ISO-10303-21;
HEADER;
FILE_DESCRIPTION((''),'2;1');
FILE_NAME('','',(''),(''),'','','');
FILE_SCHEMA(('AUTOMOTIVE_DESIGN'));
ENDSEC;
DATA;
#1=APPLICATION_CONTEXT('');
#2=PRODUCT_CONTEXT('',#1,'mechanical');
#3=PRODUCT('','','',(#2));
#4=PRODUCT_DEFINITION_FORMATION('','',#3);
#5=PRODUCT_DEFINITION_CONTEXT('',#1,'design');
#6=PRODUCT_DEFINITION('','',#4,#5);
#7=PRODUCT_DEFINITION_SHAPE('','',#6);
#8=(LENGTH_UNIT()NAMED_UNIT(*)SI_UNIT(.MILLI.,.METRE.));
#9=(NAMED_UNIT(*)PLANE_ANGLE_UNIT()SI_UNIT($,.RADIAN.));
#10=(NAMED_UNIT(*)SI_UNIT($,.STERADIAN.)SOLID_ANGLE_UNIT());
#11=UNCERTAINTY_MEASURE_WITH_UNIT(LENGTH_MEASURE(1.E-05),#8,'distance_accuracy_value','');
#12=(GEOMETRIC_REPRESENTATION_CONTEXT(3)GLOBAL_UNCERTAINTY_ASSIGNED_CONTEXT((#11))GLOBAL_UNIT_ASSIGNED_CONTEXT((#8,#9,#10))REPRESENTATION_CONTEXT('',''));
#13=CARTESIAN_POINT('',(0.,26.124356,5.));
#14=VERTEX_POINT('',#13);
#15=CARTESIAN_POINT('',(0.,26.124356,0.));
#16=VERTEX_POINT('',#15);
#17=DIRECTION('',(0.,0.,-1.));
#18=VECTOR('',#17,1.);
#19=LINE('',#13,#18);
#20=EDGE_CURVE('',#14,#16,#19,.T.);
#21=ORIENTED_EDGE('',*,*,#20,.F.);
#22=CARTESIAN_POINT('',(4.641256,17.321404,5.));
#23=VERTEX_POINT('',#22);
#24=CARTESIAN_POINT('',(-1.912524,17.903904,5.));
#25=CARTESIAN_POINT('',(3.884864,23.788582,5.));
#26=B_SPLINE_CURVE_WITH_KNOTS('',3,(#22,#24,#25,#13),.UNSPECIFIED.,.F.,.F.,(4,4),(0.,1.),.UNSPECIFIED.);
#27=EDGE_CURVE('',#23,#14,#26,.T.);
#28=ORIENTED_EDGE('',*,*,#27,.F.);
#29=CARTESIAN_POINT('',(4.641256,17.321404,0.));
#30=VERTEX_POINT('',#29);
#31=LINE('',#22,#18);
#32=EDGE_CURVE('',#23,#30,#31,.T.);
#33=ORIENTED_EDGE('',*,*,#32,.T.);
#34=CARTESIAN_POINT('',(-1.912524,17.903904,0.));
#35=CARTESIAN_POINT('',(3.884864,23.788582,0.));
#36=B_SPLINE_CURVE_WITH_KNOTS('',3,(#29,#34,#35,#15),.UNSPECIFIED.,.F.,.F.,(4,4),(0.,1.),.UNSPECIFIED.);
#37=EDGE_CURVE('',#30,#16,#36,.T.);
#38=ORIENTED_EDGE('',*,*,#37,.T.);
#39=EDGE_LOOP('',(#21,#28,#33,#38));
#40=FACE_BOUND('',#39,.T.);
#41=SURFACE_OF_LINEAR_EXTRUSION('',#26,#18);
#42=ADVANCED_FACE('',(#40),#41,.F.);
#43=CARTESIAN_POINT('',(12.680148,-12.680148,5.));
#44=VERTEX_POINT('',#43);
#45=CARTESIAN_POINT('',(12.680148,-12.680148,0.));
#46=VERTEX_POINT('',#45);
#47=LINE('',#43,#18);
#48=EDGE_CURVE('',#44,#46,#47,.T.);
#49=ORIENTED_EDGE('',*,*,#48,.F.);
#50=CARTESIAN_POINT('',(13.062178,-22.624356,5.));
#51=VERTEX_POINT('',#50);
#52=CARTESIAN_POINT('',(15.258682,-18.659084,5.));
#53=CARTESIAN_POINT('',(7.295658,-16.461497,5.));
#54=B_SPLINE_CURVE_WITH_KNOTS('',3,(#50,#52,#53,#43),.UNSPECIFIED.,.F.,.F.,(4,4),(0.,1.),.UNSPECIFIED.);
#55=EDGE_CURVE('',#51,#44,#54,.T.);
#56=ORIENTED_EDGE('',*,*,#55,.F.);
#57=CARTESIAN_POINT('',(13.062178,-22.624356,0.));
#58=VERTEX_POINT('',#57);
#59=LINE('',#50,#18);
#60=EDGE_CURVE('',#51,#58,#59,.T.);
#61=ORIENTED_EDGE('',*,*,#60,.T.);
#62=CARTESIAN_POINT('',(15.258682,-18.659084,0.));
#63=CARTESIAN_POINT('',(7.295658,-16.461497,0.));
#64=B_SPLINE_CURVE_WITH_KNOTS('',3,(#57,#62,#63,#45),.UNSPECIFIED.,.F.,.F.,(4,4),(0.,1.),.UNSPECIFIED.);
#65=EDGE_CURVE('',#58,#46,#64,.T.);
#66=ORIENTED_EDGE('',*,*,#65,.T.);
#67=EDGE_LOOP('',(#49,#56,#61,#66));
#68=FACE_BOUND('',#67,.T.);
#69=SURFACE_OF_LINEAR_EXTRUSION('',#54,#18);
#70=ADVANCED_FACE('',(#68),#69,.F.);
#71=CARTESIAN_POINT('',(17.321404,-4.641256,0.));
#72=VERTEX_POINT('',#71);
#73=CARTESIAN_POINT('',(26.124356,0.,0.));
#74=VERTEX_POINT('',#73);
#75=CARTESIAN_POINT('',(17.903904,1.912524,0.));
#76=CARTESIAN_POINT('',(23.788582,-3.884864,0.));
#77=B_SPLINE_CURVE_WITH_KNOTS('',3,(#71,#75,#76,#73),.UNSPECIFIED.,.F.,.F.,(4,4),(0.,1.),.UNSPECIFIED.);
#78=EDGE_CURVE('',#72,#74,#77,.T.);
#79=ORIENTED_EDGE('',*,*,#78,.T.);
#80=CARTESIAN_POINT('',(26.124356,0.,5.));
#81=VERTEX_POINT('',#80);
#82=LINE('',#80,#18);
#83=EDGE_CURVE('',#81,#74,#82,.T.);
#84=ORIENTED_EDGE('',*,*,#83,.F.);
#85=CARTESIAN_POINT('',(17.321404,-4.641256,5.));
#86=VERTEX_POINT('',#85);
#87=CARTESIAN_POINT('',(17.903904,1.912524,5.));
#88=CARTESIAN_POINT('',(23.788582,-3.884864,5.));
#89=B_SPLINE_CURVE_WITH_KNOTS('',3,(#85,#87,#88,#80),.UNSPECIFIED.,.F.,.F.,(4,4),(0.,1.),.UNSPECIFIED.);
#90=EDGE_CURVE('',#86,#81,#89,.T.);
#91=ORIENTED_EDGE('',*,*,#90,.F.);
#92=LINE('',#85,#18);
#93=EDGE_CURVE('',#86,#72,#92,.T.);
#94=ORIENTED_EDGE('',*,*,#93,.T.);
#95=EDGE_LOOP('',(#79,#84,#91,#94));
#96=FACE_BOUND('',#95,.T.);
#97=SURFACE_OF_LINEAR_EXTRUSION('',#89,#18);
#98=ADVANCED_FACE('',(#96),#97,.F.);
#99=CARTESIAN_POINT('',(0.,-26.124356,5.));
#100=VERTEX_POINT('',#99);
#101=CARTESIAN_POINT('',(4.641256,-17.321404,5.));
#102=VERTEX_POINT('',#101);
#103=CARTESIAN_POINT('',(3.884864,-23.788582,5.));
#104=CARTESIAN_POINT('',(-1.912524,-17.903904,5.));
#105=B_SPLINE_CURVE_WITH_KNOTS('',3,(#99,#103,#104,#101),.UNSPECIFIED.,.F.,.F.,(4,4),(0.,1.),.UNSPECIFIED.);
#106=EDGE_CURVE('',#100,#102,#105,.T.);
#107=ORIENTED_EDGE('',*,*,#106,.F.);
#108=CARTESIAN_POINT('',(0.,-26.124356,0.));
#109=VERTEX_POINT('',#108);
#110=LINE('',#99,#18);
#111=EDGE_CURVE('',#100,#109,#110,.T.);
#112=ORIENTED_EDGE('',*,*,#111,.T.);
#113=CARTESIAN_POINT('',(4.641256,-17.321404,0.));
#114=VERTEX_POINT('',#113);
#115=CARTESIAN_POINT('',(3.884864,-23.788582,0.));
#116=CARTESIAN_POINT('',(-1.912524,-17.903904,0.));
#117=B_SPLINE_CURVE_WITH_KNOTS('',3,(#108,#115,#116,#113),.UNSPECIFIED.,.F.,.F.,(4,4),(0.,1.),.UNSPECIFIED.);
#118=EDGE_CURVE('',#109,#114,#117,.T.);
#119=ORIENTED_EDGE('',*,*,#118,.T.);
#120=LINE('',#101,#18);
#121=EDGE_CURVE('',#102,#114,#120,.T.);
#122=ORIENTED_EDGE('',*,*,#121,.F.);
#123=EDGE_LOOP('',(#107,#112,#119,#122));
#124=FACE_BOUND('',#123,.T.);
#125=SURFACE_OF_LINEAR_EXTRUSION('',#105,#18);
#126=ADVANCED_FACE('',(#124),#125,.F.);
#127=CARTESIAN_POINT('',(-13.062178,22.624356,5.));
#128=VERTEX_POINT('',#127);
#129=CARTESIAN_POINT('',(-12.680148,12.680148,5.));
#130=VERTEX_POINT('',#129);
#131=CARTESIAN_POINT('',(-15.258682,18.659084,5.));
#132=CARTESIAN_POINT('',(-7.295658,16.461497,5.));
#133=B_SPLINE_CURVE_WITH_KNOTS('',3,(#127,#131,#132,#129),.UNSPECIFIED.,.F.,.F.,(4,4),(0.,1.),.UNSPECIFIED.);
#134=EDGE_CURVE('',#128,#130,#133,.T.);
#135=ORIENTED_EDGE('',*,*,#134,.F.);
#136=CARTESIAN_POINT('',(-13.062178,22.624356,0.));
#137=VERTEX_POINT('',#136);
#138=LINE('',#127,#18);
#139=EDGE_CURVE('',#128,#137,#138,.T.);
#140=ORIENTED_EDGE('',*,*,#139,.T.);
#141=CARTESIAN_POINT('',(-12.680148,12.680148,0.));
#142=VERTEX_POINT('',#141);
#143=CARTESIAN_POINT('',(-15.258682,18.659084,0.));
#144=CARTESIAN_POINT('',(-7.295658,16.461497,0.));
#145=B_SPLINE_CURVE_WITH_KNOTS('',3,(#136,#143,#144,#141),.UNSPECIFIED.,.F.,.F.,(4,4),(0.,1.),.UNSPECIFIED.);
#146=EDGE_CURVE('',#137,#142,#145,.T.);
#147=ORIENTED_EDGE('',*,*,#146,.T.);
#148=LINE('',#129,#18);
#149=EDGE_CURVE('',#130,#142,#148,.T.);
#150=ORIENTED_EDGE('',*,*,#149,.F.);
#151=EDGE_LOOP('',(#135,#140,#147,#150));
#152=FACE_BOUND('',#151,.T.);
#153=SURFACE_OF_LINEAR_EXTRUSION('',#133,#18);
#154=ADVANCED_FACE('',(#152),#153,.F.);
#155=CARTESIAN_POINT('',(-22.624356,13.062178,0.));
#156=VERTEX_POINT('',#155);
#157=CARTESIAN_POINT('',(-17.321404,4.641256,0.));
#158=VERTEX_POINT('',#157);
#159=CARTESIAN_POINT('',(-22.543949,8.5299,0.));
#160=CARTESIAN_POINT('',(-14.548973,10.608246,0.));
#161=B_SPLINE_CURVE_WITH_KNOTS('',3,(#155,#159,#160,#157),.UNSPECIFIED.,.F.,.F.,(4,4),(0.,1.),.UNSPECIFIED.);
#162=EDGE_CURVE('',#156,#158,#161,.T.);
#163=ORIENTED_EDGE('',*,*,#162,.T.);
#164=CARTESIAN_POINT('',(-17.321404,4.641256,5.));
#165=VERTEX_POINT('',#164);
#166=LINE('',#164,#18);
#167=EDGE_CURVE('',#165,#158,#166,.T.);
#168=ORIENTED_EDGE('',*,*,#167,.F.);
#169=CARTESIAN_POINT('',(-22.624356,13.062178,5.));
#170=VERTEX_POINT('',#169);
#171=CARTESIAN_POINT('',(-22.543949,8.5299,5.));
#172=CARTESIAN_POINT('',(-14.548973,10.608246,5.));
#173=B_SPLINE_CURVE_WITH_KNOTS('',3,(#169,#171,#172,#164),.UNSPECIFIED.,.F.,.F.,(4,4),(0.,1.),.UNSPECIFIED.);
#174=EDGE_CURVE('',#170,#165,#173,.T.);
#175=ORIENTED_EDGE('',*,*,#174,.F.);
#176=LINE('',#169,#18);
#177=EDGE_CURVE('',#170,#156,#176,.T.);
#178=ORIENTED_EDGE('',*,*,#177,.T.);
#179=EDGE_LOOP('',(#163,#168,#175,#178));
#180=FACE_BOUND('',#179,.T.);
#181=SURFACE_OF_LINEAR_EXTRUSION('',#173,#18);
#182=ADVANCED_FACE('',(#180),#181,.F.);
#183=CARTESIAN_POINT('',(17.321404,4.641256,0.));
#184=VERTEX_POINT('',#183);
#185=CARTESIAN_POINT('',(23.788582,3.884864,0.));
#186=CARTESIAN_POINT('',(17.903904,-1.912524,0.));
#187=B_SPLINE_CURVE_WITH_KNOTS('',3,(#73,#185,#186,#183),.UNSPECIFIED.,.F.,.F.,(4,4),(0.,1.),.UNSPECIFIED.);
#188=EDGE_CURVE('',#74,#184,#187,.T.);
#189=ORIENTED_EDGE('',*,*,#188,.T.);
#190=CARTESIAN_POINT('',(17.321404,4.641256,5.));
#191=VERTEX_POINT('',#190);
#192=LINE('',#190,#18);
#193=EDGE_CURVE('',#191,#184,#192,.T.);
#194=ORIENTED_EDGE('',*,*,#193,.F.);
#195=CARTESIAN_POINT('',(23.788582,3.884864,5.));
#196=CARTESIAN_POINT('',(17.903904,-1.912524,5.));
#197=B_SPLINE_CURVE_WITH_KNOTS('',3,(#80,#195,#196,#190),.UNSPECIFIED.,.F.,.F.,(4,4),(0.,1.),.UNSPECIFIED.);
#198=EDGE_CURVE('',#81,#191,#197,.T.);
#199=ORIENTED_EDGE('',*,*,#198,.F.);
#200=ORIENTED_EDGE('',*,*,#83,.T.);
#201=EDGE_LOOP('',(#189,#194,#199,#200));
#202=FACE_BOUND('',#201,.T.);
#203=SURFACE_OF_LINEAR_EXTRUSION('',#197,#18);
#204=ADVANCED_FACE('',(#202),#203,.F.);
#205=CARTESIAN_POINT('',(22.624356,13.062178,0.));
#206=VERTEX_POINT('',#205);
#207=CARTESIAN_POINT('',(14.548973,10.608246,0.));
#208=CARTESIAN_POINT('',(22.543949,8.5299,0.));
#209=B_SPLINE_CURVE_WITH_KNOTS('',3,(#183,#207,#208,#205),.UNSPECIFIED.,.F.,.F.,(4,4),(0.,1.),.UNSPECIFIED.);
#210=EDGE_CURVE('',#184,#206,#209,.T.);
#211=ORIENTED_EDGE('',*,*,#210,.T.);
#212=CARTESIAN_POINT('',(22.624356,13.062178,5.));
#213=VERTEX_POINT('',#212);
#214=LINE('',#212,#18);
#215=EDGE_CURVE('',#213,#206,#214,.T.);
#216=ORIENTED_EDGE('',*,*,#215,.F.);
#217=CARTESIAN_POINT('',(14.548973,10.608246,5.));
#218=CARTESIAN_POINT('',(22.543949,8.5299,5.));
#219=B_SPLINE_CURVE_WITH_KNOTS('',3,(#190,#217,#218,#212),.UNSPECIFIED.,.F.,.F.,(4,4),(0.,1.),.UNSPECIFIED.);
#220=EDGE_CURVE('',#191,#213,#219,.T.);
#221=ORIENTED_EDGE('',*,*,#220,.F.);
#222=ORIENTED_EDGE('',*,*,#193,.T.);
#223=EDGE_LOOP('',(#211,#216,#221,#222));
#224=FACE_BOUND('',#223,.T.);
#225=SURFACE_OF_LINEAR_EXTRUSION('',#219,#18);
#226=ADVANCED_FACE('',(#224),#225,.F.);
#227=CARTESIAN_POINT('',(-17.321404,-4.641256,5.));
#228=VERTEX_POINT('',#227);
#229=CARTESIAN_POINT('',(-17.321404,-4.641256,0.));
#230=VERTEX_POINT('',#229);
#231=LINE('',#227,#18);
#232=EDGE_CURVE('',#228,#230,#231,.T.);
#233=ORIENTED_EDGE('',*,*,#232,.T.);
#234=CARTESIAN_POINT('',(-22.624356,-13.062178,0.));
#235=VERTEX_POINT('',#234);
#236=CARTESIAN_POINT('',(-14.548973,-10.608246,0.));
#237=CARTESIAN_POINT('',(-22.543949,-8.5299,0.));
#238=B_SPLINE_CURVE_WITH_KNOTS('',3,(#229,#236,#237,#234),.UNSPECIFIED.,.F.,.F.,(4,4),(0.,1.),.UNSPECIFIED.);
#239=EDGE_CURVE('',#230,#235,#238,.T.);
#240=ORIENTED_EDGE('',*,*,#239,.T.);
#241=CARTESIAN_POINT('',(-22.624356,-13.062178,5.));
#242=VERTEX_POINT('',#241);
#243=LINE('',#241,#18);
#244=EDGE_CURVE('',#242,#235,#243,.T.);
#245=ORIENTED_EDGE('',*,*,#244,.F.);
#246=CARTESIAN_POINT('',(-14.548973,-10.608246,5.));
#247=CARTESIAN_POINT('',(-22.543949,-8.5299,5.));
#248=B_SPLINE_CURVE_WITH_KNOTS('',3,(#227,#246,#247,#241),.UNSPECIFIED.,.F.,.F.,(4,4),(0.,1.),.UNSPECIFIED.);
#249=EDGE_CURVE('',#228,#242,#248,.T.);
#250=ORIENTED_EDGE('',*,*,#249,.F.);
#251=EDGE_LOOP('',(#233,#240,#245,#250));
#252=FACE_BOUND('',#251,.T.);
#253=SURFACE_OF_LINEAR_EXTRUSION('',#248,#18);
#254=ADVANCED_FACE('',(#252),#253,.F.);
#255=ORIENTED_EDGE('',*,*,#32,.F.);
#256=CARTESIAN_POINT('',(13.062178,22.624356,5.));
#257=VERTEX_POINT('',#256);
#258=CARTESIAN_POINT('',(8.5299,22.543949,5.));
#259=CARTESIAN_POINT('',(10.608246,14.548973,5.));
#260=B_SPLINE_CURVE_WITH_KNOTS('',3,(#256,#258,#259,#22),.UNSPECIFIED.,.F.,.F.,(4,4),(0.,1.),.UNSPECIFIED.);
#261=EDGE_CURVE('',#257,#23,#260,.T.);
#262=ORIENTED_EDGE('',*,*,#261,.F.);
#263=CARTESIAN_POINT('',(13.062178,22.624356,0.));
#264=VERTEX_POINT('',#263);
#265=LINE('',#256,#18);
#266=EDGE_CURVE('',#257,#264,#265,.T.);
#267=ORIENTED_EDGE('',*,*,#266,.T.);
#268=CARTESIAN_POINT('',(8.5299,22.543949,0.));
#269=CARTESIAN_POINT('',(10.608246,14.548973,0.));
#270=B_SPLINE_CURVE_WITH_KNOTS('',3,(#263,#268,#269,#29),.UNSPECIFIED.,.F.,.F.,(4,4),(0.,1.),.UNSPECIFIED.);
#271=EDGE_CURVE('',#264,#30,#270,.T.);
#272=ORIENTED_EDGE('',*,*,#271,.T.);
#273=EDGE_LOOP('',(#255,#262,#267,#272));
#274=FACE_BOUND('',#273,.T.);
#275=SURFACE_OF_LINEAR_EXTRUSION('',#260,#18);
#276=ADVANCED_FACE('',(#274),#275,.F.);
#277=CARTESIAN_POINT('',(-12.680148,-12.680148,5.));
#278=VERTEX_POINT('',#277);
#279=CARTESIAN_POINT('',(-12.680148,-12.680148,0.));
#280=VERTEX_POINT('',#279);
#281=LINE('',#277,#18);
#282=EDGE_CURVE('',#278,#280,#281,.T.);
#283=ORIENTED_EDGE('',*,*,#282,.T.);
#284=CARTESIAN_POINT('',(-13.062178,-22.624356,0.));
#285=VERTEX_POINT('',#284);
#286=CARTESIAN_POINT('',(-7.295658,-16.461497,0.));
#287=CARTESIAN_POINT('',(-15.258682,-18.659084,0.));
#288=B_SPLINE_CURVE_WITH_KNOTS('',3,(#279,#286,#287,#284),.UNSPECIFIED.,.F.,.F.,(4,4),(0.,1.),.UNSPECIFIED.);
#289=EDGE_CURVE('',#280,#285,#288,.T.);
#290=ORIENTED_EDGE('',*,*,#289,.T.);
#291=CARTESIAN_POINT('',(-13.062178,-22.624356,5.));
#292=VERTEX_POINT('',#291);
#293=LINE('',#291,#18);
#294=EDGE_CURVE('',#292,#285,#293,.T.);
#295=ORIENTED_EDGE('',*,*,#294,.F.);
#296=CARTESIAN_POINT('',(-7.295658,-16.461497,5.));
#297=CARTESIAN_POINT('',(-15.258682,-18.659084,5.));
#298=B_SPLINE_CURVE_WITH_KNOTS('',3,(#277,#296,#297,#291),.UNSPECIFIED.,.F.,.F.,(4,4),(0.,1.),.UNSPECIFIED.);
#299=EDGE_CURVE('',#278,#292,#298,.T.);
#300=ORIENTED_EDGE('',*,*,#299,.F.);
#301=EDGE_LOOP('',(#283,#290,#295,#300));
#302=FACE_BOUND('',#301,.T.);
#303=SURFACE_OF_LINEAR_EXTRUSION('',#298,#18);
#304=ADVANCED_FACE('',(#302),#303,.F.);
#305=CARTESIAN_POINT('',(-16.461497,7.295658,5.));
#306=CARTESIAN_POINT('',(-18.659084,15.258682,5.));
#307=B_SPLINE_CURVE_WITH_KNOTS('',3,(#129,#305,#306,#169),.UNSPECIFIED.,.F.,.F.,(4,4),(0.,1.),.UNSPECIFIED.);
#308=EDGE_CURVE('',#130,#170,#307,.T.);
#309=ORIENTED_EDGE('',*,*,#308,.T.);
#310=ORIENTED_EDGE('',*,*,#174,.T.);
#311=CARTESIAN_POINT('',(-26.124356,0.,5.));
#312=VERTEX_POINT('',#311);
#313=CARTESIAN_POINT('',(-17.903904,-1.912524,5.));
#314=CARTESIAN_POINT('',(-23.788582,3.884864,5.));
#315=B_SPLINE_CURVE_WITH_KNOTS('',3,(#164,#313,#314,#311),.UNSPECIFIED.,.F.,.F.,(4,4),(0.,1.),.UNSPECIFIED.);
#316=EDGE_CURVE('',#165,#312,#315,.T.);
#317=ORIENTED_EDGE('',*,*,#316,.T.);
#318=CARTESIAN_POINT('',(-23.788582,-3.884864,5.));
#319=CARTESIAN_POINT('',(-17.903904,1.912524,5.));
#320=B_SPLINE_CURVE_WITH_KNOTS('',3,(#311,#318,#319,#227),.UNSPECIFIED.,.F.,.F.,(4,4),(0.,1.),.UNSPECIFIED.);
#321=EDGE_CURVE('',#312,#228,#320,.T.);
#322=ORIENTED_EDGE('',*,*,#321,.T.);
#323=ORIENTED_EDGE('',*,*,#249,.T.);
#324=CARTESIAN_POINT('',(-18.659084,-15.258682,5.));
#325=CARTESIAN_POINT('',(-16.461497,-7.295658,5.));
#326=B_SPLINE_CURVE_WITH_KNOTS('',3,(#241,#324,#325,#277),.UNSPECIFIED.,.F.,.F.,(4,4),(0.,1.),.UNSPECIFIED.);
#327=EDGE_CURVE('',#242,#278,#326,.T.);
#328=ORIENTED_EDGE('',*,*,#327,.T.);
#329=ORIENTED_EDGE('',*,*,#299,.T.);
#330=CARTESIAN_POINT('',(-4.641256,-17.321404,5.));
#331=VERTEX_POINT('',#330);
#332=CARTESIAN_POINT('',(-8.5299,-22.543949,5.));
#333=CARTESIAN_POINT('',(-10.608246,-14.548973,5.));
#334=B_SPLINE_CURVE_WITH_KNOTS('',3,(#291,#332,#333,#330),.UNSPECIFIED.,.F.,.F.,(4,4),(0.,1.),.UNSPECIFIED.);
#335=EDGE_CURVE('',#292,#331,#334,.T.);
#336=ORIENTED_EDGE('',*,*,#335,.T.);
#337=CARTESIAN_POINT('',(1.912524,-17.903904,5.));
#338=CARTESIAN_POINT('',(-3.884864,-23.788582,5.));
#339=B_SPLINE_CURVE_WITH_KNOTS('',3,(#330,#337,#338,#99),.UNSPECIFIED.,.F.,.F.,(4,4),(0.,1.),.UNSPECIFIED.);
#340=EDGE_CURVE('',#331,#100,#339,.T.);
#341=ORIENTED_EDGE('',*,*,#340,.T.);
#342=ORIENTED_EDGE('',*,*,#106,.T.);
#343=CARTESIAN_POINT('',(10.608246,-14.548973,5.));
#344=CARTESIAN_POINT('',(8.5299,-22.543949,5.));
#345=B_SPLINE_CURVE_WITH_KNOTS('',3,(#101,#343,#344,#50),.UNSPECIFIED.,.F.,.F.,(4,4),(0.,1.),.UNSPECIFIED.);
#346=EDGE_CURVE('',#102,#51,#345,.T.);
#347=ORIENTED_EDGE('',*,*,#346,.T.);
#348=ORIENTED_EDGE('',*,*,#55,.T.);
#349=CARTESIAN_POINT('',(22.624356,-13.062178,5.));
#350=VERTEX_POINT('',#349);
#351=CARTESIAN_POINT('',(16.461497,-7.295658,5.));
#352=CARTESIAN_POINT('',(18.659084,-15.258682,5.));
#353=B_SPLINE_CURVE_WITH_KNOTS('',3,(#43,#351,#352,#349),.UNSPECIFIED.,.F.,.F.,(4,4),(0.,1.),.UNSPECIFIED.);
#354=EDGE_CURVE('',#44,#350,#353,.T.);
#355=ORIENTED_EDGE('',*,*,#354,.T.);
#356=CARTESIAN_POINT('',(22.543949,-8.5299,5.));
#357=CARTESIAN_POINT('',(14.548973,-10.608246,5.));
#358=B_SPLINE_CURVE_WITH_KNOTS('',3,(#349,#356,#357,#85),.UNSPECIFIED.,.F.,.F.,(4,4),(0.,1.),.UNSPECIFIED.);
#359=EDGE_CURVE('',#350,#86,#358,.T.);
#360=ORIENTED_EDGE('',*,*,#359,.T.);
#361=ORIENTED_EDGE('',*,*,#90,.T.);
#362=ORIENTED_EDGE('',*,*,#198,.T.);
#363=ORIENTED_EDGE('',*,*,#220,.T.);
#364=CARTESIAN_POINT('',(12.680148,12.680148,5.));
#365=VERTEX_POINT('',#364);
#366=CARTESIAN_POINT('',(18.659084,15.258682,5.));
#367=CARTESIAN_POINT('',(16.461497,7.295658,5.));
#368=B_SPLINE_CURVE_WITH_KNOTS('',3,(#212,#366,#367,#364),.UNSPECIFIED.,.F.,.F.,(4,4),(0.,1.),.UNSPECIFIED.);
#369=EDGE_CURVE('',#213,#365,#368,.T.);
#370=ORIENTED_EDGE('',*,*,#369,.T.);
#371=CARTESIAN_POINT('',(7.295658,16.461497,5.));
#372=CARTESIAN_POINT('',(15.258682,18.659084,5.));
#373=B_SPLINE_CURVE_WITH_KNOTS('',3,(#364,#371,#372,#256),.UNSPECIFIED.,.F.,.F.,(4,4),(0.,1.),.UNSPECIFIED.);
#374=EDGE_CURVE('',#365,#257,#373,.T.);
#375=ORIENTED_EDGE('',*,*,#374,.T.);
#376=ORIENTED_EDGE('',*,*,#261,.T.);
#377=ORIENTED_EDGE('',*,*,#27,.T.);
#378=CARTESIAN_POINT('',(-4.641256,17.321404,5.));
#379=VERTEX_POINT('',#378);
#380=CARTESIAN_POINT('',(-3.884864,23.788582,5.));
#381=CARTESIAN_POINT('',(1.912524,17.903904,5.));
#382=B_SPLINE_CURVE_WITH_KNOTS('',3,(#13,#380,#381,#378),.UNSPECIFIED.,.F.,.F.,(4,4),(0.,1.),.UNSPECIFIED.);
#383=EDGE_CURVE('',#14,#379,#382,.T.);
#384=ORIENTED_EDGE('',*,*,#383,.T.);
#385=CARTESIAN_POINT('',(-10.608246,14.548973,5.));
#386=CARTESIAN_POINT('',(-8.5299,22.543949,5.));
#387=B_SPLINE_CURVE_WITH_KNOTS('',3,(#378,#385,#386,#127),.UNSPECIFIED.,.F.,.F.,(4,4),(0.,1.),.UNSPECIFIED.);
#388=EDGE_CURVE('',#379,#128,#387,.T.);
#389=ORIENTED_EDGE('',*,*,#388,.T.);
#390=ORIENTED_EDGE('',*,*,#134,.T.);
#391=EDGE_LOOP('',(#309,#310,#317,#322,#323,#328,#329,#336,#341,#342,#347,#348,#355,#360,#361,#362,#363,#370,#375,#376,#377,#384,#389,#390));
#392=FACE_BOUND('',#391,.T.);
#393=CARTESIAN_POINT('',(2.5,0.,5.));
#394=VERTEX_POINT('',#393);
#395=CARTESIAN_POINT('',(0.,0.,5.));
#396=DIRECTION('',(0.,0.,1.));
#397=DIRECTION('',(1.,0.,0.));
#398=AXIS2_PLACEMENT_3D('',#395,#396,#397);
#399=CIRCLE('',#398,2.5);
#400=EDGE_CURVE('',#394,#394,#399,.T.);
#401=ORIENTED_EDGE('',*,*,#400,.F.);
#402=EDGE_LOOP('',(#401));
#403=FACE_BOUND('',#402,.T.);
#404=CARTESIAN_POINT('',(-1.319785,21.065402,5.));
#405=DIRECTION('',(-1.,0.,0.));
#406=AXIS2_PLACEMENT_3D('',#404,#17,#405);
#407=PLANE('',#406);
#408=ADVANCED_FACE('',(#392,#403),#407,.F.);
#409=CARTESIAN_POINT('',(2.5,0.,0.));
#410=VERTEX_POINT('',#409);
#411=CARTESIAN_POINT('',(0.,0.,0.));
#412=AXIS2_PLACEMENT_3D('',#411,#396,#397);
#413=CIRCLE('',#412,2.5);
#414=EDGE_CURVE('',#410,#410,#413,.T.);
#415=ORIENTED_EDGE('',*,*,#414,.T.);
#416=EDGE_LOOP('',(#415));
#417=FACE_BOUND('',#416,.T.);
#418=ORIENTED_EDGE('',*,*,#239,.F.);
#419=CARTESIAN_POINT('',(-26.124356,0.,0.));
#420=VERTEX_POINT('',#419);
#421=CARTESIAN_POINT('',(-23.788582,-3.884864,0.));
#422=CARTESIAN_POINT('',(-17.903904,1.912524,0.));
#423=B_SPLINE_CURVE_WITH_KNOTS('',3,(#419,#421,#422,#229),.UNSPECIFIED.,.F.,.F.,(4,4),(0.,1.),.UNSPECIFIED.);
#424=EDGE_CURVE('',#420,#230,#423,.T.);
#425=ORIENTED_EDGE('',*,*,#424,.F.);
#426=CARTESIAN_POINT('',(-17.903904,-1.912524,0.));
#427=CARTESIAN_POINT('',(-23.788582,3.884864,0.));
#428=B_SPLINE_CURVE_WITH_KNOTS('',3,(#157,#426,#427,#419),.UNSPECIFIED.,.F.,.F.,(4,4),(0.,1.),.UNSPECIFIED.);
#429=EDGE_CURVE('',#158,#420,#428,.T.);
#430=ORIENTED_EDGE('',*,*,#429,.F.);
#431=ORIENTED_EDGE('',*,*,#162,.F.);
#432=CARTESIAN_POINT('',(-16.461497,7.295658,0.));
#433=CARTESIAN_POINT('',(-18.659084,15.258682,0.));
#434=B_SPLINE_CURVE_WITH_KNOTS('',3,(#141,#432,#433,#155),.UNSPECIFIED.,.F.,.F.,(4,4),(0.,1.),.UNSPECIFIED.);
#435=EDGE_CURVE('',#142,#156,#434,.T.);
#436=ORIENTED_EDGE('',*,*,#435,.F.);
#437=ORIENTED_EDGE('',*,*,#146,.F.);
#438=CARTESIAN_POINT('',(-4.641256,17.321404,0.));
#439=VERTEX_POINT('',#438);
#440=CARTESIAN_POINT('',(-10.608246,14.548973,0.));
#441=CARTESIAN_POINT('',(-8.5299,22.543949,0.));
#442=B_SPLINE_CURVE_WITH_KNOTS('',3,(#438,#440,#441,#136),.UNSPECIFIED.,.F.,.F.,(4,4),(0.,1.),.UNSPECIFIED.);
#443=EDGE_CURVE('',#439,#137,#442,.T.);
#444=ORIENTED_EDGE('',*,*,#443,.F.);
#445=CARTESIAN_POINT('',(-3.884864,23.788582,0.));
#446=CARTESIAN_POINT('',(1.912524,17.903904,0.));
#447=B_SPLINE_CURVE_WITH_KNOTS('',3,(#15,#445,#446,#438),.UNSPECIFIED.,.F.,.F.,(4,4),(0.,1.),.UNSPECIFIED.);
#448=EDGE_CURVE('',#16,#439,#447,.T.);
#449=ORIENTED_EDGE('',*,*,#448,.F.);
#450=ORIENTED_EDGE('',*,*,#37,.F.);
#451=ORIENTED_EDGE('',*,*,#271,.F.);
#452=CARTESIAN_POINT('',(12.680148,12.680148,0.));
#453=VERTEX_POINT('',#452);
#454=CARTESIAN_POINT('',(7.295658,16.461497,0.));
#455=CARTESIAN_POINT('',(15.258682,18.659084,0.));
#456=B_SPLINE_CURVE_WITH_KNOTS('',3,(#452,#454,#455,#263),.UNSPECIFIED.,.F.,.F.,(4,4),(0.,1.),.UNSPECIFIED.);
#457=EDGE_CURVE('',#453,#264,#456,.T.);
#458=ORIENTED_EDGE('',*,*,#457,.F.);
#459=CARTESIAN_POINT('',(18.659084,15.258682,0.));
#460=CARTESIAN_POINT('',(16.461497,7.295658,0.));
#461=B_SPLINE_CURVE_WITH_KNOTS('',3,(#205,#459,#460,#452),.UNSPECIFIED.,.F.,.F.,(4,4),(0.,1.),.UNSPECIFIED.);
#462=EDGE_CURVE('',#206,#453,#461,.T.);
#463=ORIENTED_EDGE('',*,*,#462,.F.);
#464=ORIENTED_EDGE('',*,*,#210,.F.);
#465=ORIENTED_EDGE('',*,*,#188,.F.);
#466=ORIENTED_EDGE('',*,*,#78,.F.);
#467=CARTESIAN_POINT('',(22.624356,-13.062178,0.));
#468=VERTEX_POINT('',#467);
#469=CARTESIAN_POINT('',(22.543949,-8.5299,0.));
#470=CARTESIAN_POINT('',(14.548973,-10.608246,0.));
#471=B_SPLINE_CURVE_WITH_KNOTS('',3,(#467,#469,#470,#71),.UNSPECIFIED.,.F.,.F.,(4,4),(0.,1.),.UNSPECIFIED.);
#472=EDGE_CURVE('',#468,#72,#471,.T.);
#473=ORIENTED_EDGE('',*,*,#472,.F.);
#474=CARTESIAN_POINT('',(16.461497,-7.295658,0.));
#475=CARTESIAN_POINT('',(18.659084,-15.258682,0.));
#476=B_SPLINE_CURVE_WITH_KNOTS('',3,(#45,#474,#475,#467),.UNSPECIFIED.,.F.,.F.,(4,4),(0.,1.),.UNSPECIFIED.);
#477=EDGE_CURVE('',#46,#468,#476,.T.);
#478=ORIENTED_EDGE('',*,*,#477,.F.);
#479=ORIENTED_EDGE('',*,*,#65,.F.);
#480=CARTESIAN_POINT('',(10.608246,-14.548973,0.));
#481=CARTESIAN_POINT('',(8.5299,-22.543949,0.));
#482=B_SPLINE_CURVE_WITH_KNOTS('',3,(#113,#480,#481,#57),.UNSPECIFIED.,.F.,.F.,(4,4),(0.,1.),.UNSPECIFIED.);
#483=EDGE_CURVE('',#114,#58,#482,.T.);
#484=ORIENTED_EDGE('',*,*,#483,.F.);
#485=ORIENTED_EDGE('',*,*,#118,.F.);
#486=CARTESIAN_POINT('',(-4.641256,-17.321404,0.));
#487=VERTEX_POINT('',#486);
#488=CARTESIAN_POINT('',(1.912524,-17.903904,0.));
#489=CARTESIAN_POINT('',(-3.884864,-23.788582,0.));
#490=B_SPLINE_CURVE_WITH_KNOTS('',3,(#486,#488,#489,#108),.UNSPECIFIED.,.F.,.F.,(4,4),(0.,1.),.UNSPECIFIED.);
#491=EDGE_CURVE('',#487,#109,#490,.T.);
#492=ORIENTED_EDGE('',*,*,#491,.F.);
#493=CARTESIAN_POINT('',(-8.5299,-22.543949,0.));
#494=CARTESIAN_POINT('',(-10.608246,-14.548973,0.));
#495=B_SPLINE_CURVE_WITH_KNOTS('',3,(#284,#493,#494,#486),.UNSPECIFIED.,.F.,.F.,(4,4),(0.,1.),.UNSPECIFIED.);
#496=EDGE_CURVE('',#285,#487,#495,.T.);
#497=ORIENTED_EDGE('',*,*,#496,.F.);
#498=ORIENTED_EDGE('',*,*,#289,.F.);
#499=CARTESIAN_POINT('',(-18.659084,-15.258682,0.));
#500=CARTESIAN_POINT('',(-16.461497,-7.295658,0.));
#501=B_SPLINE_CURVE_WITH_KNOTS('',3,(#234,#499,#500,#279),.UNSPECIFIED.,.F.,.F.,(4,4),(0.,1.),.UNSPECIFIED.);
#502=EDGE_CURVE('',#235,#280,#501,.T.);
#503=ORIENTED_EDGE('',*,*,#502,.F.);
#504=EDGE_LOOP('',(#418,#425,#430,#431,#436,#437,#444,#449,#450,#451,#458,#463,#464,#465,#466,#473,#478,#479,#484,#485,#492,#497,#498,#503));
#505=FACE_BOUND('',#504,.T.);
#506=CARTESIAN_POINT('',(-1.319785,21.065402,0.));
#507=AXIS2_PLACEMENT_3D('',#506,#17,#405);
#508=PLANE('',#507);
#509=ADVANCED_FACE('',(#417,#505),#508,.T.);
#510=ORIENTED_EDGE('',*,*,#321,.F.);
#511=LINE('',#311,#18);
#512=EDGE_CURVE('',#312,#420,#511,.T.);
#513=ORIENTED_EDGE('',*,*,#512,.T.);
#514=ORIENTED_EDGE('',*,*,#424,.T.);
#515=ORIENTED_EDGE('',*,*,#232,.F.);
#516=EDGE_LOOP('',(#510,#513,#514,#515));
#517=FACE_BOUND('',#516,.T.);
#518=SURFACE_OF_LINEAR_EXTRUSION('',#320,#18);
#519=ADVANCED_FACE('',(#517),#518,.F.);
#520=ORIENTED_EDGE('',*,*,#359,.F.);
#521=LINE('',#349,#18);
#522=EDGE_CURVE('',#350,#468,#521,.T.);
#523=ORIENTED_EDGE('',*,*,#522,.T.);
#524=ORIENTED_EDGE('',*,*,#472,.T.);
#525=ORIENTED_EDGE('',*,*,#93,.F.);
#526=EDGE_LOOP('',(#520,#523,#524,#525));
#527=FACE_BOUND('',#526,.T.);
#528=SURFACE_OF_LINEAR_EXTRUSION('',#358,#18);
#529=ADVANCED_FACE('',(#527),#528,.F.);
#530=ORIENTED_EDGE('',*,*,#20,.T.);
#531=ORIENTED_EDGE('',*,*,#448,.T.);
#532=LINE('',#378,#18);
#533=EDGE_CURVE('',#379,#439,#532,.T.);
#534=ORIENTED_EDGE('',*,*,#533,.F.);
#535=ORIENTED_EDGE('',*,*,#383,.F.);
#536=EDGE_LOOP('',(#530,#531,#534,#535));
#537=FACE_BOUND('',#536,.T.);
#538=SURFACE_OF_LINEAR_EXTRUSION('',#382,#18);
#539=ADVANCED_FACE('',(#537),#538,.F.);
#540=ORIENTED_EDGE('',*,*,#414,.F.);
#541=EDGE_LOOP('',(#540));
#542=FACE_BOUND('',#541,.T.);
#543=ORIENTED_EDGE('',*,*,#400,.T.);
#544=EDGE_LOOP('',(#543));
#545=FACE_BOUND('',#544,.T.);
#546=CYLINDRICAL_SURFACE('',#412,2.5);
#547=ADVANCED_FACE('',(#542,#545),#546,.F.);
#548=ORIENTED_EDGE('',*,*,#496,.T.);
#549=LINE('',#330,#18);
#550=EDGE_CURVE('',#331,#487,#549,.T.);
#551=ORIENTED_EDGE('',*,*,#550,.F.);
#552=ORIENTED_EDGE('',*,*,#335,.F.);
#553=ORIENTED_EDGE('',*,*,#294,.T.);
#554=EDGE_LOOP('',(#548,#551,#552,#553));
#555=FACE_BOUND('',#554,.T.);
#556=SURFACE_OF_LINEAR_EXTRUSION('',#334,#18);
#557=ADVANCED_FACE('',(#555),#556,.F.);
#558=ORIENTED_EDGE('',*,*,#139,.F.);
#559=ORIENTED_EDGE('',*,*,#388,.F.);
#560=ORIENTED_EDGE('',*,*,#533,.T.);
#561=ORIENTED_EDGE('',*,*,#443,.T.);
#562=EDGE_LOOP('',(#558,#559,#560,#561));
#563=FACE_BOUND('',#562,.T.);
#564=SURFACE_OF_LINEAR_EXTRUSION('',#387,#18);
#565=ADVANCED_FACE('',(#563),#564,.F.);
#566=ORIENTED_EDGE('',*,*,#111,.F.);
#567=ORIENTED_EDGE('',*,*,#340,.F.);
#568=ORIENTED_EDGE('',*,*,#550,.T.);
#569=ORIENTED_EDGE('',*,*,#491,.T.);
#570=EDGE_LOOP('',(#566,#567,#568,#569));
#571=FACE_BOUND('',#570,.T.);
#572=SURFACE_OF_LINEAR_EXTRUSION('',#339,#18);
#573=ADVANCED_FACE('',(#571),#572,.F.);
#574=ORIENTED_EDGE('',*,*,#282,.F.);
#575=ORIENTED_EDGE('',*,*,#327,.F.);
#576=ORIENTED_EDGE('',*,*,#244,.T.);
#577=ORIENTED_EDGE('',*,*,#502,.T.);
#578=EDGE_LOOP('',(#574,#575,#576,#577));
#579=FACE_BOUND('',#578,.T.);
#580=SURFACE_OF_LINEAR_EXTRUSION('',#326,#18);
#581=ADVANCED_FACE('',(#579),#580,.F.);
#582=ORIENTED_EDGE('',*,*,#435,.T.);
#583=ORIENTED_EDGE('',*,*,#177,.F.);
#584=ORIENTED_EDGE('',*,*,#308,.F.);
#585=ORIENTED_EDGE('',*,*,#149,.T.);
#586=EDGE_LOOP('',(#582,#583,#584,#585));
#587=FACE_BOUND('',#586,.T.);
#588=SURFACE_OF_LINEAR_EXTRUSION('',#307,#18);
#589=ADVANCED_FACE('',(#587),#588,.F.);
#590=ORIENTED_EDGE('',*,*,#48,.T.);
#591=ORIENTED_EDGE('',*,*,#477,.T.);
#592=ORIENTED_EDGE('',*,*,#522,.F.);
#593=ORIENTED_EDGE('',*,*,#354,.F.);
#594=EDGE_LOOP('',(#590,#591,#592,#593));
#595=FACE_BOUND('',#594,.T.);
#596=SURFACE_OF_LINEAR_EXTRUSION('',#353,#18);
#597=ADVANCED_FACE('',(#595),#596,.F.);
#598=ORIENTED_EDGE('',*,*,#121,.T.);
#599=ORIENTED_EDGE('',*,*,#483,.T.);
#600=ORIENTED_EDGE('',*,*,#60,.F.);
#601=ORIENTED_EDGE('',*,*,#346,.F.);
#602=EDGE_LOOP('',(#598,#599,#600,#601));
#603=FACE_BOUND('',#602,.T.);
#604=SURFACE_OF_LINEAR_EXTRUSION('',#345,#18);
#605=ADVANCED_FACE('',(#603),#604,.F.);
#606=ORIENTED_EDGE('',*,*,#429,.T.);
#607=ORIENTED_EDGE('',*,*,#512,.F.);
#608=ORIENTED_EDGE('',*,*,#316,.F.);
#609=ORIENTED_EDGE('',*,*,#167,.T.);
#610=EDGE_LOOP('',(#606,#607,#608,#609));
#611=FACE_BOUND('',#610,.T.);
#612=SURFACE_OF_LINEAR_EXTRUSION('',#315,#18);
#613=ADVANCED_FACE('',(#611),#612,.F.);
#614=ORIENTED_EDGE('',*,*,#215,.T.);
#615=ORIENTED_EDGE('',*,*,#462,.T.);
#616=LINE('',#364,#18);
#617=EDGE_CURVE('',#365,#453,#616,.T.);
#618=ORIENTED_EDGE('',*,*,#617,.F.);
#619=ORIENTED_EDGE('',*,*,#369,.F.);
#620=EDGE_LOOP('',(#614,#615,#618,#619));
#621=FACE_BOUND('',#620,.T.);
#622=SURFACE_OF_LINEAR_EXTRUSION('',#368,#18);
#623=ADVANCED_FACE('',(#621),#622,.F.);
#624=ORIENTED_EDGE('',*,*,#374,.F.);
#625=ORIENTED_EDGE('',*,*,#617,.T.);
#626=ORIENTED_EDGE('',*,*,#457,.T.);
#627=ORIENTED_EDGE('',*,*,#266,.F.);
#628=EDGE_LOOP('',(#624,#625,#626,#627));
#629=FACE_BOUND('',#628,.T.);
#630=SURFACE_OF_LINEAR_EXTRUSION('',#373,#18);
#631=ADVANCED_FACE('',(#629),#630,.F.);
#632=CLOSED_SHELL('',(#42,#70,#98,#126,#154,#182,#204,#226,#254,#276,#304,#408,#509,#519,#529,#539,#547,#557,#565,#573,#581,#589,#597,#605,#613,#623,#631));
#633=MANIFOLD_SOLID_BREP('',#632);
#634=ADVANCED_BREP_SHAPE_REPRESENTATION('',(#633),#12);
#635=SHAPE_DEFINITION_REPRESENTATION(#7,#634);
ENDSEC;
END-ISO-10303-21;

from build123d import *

# Parameters (mm, degrees)
BOSS_EXTRUDE4_DEPTH = 5
SKETCH10_R          = 2.5
CUT_EXTRUDE3_DEPTH  = 5


with BuildPart() as part:
    # Sketch9 → Boss-Extrude4 (new body)
    with BuildSketch(Plane.XY):
        with BuildLine():
            add(Edge.make_bspline(
                [(0, 26.124355653), (3.884864274, 23.788582221), (-1.912523876, 17.903903592), (4.641256317, 17.321404385)],
                knots=[0, 0, 0, 0, 1, 1, 1, 1], degree=3))
            add(Edge.make_bspline(
                [(13.062177826, 22.624355653), (8.529899959, 22.54394866), (10.608246058, 14.5489734), (4.641256317, 17.321404385)],
                knots=[0, 0, 0, 0, 1, 1, 1, 1], degree=3))
            add(Edge.make_bspline(
                [(13.062177826, 22.624355653), (15.258682262, 18.659084387), (7.295657534, 16.461497276), (12.680148068, 12.680148068)],
                knots=[0, 0, 0, 0, 1, 1, 1, 1], degree=3))
            add(Edge.make_bspline(
                [(22.624355653, 13.062177826), (18.659084387, 15.258682262), (16.461497276, 7.295657534), (12.680148068, 12.680148068)],
                knots=[0, 0, 0, 0, 1, 1, 1, 1], degree=3))
            add(Edge.make_bspline(
                [(22.624355653, 13.062177826), (22.54394866, 8.529899959), (14.5489734, 10.608246058), (17.321404385, 4.641256317)],
                knots=[0, 0, 0, 0, 1, 1, 1, 1], degree=3))
            add(Edge.make_bspline(
                [(26.124355653, 0), (23.788582221, 3.884864274), (17.903903592, -1.912523876), (17.321404385, 4.641256317)],
                knots=[0, 0, 0, 0, 1, 1, 1, 1], degree=3))
            add(Edge.make_bspline(
                [(26.124355653, 0), (23.788582221, -3.884864274), (17.903903592, 1.912523876), (17.321404385, -4.641256317)],
                knots=[0, 0, 0, 0, 1, 1, 1, 1], degree=3))
            add(Edge.make_bspline(
                [(22.624355653, -13.062177826), (22.54394866, -8.529899959), (14.5489734, -10.608246058), (17.321404385, -4.641256317)],
                knots=[0, 0, 0, 0, 1, 1, 1, 1], degree=3))
            add(Edge.make_bspline(
                [(22.624355653, -13.062177826), (18.659084387, -15.258682262), (16.461497276, -7.295657534), (12.680148068, -12.680148068)],
                knots=[0, 0, 0, 0, 1, 1, 1, 1], degree=3))
            add(Edge.make_bspline(
                [(13.062177826, -22.624355653), (15.258682262, -18.659084387), (7.295657534, -16.461497276), (12.680148068, -12.680148068)],
                knots=[0, 0, 0, 0, 1, 1, 1, 1], degree=3))
            add(Edge.make_bspline(
                [(13.062177826, -22.624355653), (8.529899959, -22.54394866), (10.608246058, -14.5489734), (4.641256317, -17.321404385)],
                knots=[0, 0, 0, 0, 1, 1, 1, 1], degree=3))
            add(Edge.make_bspline(
                [(0, -26.124355653), (3.884864274, -23.788582221), (-1.912523876, -17.903903592), (4.641256317, -17.321404385)],
                knots=[0, 0, 0, 0, 1, 1, 1, 1], degree=3))
            add(Edge.make_bspline(
                [(0, -26.124355653), (-3.884864274, -23.788582221), (1.912523876, -17.903903592), (-4.641256317, -17.321404385)],
                knots=[0, 0, 0, 0, 1, 1, 1, 1], degree=3))
            add(Edge.make_bspline(
                [(-13.062177826, -22.624355653), (-8.529899959, -22.54394866), (-10.608246058, -14.5489734), (-4.641256317, -17.321404385)],
                knots=[0, 0, 0, 0, 1, 1, 1, 1], degree=3))
            add(Edge.make_bspline(
                [(-13.062177826, -22.624355653), (-15.258682262, -18.659084387), (-7.295657534, -16.461497276), (-12.680148068, -12.680148068)],
                knots=[0, 0, 0, 0, 1, 1, 1, 1], degree=3))
            add(Edge.make_bspline(
                [(-22.624355653, -13.062177826), (-18.659084387, -15.258682262), (-16.461497276, -7.295657534), (-12.680148068, -12.680148068)],
                knots=[0, 0, 0, 0, 1, 1, 1, 1], degree=3))
            add(Edge.make_bspline(
                [(-22.624355653, -13.062177826), (-22.54394866, -8.529899959), (-14.5489734, -10.608246058), (-17.321404385, -4.641256317)],
                knots=[0, 0, 0, 0, 1, 1, 1, 1], degree=3))
            add(Edge.make_bspline(
                [(-26.124355653, 0), (-23.788582221, -3.884864274), (-17.903903592, 1.912523876), (-17.321404385, -4.641256317)],
                knots=[0, 0, 0, 0, 1, 1, 1, 1], degree=3))
            add(Edge.make_bspline(
                [(-26.124355653, 0), (-23.788582221, 3.884864274), (-17.903903592, -1.912523876), (-17.321404385, 4.641256317)],
                knots=[0, 0, 0, 0, 1, 1, 1, 1], degree=3))
            add(Edge.make_bspline(
                [(-22.624355653, 13.062177826), (-22.54394866, 8.529899959), (-14.5489734, 10.608246058), (-17.321404385, 4.641256317)],
                knots=[0, 0, 0, 0, 1, 1, 1, 1], degree=3))
            add(Edge.make_bspline(
                [(-22.624355653, 13.062177826), (-18.659084387, 15.258682262), (-16.461497276, 7.295657534), (-12.680148068, 12.680148068)],
                knots=[0, 0, 0, 0, 1, 1, 1, 1], degree=3))
            add(Edge.make_bspline(
                [(-13.062177826, 22.624355653), (-15.258682262, 18.659084387), (-7.295657534, 16.461497276), (-12.680148068, 12.680148068)],
                knots=[0, 0, 0, 0, 1, 1, 1, 1], degree=3))
            add(Edge.make_bspline(
                [(-13.062177826, 22.624355653), (-8.529899959, 22.54394866), (-10.608246058, 14.5489734), (-4.641256317, 17.321404385)],
                knots=[0, 0, 0, 0, 1, 1, 1, 1], degree=3))
            add(Edge.make_bspline(
                [(0, 26.124355653), (-3.884864274, 23.788582221), (1.912523876, 17.903903592), (-4.641256317, 17.321404385)],
                knots=[0, 0, 0, 0, 1, 1, 1, 1], degree=3))
        make_face()
    extrude(amount=BOSS_EXTRUDE4_DEPTH)

    # Sketch10 → Cut-Extrude3 (cut)
    with BuildSketch(Plane.XY.offset(5)):
        Circle(SKETCH10_R)
    extrude(amount=-CUT_EXTRUDE3_DEPTH, mode=Mode.SUBTRACT)


solid = part.part
